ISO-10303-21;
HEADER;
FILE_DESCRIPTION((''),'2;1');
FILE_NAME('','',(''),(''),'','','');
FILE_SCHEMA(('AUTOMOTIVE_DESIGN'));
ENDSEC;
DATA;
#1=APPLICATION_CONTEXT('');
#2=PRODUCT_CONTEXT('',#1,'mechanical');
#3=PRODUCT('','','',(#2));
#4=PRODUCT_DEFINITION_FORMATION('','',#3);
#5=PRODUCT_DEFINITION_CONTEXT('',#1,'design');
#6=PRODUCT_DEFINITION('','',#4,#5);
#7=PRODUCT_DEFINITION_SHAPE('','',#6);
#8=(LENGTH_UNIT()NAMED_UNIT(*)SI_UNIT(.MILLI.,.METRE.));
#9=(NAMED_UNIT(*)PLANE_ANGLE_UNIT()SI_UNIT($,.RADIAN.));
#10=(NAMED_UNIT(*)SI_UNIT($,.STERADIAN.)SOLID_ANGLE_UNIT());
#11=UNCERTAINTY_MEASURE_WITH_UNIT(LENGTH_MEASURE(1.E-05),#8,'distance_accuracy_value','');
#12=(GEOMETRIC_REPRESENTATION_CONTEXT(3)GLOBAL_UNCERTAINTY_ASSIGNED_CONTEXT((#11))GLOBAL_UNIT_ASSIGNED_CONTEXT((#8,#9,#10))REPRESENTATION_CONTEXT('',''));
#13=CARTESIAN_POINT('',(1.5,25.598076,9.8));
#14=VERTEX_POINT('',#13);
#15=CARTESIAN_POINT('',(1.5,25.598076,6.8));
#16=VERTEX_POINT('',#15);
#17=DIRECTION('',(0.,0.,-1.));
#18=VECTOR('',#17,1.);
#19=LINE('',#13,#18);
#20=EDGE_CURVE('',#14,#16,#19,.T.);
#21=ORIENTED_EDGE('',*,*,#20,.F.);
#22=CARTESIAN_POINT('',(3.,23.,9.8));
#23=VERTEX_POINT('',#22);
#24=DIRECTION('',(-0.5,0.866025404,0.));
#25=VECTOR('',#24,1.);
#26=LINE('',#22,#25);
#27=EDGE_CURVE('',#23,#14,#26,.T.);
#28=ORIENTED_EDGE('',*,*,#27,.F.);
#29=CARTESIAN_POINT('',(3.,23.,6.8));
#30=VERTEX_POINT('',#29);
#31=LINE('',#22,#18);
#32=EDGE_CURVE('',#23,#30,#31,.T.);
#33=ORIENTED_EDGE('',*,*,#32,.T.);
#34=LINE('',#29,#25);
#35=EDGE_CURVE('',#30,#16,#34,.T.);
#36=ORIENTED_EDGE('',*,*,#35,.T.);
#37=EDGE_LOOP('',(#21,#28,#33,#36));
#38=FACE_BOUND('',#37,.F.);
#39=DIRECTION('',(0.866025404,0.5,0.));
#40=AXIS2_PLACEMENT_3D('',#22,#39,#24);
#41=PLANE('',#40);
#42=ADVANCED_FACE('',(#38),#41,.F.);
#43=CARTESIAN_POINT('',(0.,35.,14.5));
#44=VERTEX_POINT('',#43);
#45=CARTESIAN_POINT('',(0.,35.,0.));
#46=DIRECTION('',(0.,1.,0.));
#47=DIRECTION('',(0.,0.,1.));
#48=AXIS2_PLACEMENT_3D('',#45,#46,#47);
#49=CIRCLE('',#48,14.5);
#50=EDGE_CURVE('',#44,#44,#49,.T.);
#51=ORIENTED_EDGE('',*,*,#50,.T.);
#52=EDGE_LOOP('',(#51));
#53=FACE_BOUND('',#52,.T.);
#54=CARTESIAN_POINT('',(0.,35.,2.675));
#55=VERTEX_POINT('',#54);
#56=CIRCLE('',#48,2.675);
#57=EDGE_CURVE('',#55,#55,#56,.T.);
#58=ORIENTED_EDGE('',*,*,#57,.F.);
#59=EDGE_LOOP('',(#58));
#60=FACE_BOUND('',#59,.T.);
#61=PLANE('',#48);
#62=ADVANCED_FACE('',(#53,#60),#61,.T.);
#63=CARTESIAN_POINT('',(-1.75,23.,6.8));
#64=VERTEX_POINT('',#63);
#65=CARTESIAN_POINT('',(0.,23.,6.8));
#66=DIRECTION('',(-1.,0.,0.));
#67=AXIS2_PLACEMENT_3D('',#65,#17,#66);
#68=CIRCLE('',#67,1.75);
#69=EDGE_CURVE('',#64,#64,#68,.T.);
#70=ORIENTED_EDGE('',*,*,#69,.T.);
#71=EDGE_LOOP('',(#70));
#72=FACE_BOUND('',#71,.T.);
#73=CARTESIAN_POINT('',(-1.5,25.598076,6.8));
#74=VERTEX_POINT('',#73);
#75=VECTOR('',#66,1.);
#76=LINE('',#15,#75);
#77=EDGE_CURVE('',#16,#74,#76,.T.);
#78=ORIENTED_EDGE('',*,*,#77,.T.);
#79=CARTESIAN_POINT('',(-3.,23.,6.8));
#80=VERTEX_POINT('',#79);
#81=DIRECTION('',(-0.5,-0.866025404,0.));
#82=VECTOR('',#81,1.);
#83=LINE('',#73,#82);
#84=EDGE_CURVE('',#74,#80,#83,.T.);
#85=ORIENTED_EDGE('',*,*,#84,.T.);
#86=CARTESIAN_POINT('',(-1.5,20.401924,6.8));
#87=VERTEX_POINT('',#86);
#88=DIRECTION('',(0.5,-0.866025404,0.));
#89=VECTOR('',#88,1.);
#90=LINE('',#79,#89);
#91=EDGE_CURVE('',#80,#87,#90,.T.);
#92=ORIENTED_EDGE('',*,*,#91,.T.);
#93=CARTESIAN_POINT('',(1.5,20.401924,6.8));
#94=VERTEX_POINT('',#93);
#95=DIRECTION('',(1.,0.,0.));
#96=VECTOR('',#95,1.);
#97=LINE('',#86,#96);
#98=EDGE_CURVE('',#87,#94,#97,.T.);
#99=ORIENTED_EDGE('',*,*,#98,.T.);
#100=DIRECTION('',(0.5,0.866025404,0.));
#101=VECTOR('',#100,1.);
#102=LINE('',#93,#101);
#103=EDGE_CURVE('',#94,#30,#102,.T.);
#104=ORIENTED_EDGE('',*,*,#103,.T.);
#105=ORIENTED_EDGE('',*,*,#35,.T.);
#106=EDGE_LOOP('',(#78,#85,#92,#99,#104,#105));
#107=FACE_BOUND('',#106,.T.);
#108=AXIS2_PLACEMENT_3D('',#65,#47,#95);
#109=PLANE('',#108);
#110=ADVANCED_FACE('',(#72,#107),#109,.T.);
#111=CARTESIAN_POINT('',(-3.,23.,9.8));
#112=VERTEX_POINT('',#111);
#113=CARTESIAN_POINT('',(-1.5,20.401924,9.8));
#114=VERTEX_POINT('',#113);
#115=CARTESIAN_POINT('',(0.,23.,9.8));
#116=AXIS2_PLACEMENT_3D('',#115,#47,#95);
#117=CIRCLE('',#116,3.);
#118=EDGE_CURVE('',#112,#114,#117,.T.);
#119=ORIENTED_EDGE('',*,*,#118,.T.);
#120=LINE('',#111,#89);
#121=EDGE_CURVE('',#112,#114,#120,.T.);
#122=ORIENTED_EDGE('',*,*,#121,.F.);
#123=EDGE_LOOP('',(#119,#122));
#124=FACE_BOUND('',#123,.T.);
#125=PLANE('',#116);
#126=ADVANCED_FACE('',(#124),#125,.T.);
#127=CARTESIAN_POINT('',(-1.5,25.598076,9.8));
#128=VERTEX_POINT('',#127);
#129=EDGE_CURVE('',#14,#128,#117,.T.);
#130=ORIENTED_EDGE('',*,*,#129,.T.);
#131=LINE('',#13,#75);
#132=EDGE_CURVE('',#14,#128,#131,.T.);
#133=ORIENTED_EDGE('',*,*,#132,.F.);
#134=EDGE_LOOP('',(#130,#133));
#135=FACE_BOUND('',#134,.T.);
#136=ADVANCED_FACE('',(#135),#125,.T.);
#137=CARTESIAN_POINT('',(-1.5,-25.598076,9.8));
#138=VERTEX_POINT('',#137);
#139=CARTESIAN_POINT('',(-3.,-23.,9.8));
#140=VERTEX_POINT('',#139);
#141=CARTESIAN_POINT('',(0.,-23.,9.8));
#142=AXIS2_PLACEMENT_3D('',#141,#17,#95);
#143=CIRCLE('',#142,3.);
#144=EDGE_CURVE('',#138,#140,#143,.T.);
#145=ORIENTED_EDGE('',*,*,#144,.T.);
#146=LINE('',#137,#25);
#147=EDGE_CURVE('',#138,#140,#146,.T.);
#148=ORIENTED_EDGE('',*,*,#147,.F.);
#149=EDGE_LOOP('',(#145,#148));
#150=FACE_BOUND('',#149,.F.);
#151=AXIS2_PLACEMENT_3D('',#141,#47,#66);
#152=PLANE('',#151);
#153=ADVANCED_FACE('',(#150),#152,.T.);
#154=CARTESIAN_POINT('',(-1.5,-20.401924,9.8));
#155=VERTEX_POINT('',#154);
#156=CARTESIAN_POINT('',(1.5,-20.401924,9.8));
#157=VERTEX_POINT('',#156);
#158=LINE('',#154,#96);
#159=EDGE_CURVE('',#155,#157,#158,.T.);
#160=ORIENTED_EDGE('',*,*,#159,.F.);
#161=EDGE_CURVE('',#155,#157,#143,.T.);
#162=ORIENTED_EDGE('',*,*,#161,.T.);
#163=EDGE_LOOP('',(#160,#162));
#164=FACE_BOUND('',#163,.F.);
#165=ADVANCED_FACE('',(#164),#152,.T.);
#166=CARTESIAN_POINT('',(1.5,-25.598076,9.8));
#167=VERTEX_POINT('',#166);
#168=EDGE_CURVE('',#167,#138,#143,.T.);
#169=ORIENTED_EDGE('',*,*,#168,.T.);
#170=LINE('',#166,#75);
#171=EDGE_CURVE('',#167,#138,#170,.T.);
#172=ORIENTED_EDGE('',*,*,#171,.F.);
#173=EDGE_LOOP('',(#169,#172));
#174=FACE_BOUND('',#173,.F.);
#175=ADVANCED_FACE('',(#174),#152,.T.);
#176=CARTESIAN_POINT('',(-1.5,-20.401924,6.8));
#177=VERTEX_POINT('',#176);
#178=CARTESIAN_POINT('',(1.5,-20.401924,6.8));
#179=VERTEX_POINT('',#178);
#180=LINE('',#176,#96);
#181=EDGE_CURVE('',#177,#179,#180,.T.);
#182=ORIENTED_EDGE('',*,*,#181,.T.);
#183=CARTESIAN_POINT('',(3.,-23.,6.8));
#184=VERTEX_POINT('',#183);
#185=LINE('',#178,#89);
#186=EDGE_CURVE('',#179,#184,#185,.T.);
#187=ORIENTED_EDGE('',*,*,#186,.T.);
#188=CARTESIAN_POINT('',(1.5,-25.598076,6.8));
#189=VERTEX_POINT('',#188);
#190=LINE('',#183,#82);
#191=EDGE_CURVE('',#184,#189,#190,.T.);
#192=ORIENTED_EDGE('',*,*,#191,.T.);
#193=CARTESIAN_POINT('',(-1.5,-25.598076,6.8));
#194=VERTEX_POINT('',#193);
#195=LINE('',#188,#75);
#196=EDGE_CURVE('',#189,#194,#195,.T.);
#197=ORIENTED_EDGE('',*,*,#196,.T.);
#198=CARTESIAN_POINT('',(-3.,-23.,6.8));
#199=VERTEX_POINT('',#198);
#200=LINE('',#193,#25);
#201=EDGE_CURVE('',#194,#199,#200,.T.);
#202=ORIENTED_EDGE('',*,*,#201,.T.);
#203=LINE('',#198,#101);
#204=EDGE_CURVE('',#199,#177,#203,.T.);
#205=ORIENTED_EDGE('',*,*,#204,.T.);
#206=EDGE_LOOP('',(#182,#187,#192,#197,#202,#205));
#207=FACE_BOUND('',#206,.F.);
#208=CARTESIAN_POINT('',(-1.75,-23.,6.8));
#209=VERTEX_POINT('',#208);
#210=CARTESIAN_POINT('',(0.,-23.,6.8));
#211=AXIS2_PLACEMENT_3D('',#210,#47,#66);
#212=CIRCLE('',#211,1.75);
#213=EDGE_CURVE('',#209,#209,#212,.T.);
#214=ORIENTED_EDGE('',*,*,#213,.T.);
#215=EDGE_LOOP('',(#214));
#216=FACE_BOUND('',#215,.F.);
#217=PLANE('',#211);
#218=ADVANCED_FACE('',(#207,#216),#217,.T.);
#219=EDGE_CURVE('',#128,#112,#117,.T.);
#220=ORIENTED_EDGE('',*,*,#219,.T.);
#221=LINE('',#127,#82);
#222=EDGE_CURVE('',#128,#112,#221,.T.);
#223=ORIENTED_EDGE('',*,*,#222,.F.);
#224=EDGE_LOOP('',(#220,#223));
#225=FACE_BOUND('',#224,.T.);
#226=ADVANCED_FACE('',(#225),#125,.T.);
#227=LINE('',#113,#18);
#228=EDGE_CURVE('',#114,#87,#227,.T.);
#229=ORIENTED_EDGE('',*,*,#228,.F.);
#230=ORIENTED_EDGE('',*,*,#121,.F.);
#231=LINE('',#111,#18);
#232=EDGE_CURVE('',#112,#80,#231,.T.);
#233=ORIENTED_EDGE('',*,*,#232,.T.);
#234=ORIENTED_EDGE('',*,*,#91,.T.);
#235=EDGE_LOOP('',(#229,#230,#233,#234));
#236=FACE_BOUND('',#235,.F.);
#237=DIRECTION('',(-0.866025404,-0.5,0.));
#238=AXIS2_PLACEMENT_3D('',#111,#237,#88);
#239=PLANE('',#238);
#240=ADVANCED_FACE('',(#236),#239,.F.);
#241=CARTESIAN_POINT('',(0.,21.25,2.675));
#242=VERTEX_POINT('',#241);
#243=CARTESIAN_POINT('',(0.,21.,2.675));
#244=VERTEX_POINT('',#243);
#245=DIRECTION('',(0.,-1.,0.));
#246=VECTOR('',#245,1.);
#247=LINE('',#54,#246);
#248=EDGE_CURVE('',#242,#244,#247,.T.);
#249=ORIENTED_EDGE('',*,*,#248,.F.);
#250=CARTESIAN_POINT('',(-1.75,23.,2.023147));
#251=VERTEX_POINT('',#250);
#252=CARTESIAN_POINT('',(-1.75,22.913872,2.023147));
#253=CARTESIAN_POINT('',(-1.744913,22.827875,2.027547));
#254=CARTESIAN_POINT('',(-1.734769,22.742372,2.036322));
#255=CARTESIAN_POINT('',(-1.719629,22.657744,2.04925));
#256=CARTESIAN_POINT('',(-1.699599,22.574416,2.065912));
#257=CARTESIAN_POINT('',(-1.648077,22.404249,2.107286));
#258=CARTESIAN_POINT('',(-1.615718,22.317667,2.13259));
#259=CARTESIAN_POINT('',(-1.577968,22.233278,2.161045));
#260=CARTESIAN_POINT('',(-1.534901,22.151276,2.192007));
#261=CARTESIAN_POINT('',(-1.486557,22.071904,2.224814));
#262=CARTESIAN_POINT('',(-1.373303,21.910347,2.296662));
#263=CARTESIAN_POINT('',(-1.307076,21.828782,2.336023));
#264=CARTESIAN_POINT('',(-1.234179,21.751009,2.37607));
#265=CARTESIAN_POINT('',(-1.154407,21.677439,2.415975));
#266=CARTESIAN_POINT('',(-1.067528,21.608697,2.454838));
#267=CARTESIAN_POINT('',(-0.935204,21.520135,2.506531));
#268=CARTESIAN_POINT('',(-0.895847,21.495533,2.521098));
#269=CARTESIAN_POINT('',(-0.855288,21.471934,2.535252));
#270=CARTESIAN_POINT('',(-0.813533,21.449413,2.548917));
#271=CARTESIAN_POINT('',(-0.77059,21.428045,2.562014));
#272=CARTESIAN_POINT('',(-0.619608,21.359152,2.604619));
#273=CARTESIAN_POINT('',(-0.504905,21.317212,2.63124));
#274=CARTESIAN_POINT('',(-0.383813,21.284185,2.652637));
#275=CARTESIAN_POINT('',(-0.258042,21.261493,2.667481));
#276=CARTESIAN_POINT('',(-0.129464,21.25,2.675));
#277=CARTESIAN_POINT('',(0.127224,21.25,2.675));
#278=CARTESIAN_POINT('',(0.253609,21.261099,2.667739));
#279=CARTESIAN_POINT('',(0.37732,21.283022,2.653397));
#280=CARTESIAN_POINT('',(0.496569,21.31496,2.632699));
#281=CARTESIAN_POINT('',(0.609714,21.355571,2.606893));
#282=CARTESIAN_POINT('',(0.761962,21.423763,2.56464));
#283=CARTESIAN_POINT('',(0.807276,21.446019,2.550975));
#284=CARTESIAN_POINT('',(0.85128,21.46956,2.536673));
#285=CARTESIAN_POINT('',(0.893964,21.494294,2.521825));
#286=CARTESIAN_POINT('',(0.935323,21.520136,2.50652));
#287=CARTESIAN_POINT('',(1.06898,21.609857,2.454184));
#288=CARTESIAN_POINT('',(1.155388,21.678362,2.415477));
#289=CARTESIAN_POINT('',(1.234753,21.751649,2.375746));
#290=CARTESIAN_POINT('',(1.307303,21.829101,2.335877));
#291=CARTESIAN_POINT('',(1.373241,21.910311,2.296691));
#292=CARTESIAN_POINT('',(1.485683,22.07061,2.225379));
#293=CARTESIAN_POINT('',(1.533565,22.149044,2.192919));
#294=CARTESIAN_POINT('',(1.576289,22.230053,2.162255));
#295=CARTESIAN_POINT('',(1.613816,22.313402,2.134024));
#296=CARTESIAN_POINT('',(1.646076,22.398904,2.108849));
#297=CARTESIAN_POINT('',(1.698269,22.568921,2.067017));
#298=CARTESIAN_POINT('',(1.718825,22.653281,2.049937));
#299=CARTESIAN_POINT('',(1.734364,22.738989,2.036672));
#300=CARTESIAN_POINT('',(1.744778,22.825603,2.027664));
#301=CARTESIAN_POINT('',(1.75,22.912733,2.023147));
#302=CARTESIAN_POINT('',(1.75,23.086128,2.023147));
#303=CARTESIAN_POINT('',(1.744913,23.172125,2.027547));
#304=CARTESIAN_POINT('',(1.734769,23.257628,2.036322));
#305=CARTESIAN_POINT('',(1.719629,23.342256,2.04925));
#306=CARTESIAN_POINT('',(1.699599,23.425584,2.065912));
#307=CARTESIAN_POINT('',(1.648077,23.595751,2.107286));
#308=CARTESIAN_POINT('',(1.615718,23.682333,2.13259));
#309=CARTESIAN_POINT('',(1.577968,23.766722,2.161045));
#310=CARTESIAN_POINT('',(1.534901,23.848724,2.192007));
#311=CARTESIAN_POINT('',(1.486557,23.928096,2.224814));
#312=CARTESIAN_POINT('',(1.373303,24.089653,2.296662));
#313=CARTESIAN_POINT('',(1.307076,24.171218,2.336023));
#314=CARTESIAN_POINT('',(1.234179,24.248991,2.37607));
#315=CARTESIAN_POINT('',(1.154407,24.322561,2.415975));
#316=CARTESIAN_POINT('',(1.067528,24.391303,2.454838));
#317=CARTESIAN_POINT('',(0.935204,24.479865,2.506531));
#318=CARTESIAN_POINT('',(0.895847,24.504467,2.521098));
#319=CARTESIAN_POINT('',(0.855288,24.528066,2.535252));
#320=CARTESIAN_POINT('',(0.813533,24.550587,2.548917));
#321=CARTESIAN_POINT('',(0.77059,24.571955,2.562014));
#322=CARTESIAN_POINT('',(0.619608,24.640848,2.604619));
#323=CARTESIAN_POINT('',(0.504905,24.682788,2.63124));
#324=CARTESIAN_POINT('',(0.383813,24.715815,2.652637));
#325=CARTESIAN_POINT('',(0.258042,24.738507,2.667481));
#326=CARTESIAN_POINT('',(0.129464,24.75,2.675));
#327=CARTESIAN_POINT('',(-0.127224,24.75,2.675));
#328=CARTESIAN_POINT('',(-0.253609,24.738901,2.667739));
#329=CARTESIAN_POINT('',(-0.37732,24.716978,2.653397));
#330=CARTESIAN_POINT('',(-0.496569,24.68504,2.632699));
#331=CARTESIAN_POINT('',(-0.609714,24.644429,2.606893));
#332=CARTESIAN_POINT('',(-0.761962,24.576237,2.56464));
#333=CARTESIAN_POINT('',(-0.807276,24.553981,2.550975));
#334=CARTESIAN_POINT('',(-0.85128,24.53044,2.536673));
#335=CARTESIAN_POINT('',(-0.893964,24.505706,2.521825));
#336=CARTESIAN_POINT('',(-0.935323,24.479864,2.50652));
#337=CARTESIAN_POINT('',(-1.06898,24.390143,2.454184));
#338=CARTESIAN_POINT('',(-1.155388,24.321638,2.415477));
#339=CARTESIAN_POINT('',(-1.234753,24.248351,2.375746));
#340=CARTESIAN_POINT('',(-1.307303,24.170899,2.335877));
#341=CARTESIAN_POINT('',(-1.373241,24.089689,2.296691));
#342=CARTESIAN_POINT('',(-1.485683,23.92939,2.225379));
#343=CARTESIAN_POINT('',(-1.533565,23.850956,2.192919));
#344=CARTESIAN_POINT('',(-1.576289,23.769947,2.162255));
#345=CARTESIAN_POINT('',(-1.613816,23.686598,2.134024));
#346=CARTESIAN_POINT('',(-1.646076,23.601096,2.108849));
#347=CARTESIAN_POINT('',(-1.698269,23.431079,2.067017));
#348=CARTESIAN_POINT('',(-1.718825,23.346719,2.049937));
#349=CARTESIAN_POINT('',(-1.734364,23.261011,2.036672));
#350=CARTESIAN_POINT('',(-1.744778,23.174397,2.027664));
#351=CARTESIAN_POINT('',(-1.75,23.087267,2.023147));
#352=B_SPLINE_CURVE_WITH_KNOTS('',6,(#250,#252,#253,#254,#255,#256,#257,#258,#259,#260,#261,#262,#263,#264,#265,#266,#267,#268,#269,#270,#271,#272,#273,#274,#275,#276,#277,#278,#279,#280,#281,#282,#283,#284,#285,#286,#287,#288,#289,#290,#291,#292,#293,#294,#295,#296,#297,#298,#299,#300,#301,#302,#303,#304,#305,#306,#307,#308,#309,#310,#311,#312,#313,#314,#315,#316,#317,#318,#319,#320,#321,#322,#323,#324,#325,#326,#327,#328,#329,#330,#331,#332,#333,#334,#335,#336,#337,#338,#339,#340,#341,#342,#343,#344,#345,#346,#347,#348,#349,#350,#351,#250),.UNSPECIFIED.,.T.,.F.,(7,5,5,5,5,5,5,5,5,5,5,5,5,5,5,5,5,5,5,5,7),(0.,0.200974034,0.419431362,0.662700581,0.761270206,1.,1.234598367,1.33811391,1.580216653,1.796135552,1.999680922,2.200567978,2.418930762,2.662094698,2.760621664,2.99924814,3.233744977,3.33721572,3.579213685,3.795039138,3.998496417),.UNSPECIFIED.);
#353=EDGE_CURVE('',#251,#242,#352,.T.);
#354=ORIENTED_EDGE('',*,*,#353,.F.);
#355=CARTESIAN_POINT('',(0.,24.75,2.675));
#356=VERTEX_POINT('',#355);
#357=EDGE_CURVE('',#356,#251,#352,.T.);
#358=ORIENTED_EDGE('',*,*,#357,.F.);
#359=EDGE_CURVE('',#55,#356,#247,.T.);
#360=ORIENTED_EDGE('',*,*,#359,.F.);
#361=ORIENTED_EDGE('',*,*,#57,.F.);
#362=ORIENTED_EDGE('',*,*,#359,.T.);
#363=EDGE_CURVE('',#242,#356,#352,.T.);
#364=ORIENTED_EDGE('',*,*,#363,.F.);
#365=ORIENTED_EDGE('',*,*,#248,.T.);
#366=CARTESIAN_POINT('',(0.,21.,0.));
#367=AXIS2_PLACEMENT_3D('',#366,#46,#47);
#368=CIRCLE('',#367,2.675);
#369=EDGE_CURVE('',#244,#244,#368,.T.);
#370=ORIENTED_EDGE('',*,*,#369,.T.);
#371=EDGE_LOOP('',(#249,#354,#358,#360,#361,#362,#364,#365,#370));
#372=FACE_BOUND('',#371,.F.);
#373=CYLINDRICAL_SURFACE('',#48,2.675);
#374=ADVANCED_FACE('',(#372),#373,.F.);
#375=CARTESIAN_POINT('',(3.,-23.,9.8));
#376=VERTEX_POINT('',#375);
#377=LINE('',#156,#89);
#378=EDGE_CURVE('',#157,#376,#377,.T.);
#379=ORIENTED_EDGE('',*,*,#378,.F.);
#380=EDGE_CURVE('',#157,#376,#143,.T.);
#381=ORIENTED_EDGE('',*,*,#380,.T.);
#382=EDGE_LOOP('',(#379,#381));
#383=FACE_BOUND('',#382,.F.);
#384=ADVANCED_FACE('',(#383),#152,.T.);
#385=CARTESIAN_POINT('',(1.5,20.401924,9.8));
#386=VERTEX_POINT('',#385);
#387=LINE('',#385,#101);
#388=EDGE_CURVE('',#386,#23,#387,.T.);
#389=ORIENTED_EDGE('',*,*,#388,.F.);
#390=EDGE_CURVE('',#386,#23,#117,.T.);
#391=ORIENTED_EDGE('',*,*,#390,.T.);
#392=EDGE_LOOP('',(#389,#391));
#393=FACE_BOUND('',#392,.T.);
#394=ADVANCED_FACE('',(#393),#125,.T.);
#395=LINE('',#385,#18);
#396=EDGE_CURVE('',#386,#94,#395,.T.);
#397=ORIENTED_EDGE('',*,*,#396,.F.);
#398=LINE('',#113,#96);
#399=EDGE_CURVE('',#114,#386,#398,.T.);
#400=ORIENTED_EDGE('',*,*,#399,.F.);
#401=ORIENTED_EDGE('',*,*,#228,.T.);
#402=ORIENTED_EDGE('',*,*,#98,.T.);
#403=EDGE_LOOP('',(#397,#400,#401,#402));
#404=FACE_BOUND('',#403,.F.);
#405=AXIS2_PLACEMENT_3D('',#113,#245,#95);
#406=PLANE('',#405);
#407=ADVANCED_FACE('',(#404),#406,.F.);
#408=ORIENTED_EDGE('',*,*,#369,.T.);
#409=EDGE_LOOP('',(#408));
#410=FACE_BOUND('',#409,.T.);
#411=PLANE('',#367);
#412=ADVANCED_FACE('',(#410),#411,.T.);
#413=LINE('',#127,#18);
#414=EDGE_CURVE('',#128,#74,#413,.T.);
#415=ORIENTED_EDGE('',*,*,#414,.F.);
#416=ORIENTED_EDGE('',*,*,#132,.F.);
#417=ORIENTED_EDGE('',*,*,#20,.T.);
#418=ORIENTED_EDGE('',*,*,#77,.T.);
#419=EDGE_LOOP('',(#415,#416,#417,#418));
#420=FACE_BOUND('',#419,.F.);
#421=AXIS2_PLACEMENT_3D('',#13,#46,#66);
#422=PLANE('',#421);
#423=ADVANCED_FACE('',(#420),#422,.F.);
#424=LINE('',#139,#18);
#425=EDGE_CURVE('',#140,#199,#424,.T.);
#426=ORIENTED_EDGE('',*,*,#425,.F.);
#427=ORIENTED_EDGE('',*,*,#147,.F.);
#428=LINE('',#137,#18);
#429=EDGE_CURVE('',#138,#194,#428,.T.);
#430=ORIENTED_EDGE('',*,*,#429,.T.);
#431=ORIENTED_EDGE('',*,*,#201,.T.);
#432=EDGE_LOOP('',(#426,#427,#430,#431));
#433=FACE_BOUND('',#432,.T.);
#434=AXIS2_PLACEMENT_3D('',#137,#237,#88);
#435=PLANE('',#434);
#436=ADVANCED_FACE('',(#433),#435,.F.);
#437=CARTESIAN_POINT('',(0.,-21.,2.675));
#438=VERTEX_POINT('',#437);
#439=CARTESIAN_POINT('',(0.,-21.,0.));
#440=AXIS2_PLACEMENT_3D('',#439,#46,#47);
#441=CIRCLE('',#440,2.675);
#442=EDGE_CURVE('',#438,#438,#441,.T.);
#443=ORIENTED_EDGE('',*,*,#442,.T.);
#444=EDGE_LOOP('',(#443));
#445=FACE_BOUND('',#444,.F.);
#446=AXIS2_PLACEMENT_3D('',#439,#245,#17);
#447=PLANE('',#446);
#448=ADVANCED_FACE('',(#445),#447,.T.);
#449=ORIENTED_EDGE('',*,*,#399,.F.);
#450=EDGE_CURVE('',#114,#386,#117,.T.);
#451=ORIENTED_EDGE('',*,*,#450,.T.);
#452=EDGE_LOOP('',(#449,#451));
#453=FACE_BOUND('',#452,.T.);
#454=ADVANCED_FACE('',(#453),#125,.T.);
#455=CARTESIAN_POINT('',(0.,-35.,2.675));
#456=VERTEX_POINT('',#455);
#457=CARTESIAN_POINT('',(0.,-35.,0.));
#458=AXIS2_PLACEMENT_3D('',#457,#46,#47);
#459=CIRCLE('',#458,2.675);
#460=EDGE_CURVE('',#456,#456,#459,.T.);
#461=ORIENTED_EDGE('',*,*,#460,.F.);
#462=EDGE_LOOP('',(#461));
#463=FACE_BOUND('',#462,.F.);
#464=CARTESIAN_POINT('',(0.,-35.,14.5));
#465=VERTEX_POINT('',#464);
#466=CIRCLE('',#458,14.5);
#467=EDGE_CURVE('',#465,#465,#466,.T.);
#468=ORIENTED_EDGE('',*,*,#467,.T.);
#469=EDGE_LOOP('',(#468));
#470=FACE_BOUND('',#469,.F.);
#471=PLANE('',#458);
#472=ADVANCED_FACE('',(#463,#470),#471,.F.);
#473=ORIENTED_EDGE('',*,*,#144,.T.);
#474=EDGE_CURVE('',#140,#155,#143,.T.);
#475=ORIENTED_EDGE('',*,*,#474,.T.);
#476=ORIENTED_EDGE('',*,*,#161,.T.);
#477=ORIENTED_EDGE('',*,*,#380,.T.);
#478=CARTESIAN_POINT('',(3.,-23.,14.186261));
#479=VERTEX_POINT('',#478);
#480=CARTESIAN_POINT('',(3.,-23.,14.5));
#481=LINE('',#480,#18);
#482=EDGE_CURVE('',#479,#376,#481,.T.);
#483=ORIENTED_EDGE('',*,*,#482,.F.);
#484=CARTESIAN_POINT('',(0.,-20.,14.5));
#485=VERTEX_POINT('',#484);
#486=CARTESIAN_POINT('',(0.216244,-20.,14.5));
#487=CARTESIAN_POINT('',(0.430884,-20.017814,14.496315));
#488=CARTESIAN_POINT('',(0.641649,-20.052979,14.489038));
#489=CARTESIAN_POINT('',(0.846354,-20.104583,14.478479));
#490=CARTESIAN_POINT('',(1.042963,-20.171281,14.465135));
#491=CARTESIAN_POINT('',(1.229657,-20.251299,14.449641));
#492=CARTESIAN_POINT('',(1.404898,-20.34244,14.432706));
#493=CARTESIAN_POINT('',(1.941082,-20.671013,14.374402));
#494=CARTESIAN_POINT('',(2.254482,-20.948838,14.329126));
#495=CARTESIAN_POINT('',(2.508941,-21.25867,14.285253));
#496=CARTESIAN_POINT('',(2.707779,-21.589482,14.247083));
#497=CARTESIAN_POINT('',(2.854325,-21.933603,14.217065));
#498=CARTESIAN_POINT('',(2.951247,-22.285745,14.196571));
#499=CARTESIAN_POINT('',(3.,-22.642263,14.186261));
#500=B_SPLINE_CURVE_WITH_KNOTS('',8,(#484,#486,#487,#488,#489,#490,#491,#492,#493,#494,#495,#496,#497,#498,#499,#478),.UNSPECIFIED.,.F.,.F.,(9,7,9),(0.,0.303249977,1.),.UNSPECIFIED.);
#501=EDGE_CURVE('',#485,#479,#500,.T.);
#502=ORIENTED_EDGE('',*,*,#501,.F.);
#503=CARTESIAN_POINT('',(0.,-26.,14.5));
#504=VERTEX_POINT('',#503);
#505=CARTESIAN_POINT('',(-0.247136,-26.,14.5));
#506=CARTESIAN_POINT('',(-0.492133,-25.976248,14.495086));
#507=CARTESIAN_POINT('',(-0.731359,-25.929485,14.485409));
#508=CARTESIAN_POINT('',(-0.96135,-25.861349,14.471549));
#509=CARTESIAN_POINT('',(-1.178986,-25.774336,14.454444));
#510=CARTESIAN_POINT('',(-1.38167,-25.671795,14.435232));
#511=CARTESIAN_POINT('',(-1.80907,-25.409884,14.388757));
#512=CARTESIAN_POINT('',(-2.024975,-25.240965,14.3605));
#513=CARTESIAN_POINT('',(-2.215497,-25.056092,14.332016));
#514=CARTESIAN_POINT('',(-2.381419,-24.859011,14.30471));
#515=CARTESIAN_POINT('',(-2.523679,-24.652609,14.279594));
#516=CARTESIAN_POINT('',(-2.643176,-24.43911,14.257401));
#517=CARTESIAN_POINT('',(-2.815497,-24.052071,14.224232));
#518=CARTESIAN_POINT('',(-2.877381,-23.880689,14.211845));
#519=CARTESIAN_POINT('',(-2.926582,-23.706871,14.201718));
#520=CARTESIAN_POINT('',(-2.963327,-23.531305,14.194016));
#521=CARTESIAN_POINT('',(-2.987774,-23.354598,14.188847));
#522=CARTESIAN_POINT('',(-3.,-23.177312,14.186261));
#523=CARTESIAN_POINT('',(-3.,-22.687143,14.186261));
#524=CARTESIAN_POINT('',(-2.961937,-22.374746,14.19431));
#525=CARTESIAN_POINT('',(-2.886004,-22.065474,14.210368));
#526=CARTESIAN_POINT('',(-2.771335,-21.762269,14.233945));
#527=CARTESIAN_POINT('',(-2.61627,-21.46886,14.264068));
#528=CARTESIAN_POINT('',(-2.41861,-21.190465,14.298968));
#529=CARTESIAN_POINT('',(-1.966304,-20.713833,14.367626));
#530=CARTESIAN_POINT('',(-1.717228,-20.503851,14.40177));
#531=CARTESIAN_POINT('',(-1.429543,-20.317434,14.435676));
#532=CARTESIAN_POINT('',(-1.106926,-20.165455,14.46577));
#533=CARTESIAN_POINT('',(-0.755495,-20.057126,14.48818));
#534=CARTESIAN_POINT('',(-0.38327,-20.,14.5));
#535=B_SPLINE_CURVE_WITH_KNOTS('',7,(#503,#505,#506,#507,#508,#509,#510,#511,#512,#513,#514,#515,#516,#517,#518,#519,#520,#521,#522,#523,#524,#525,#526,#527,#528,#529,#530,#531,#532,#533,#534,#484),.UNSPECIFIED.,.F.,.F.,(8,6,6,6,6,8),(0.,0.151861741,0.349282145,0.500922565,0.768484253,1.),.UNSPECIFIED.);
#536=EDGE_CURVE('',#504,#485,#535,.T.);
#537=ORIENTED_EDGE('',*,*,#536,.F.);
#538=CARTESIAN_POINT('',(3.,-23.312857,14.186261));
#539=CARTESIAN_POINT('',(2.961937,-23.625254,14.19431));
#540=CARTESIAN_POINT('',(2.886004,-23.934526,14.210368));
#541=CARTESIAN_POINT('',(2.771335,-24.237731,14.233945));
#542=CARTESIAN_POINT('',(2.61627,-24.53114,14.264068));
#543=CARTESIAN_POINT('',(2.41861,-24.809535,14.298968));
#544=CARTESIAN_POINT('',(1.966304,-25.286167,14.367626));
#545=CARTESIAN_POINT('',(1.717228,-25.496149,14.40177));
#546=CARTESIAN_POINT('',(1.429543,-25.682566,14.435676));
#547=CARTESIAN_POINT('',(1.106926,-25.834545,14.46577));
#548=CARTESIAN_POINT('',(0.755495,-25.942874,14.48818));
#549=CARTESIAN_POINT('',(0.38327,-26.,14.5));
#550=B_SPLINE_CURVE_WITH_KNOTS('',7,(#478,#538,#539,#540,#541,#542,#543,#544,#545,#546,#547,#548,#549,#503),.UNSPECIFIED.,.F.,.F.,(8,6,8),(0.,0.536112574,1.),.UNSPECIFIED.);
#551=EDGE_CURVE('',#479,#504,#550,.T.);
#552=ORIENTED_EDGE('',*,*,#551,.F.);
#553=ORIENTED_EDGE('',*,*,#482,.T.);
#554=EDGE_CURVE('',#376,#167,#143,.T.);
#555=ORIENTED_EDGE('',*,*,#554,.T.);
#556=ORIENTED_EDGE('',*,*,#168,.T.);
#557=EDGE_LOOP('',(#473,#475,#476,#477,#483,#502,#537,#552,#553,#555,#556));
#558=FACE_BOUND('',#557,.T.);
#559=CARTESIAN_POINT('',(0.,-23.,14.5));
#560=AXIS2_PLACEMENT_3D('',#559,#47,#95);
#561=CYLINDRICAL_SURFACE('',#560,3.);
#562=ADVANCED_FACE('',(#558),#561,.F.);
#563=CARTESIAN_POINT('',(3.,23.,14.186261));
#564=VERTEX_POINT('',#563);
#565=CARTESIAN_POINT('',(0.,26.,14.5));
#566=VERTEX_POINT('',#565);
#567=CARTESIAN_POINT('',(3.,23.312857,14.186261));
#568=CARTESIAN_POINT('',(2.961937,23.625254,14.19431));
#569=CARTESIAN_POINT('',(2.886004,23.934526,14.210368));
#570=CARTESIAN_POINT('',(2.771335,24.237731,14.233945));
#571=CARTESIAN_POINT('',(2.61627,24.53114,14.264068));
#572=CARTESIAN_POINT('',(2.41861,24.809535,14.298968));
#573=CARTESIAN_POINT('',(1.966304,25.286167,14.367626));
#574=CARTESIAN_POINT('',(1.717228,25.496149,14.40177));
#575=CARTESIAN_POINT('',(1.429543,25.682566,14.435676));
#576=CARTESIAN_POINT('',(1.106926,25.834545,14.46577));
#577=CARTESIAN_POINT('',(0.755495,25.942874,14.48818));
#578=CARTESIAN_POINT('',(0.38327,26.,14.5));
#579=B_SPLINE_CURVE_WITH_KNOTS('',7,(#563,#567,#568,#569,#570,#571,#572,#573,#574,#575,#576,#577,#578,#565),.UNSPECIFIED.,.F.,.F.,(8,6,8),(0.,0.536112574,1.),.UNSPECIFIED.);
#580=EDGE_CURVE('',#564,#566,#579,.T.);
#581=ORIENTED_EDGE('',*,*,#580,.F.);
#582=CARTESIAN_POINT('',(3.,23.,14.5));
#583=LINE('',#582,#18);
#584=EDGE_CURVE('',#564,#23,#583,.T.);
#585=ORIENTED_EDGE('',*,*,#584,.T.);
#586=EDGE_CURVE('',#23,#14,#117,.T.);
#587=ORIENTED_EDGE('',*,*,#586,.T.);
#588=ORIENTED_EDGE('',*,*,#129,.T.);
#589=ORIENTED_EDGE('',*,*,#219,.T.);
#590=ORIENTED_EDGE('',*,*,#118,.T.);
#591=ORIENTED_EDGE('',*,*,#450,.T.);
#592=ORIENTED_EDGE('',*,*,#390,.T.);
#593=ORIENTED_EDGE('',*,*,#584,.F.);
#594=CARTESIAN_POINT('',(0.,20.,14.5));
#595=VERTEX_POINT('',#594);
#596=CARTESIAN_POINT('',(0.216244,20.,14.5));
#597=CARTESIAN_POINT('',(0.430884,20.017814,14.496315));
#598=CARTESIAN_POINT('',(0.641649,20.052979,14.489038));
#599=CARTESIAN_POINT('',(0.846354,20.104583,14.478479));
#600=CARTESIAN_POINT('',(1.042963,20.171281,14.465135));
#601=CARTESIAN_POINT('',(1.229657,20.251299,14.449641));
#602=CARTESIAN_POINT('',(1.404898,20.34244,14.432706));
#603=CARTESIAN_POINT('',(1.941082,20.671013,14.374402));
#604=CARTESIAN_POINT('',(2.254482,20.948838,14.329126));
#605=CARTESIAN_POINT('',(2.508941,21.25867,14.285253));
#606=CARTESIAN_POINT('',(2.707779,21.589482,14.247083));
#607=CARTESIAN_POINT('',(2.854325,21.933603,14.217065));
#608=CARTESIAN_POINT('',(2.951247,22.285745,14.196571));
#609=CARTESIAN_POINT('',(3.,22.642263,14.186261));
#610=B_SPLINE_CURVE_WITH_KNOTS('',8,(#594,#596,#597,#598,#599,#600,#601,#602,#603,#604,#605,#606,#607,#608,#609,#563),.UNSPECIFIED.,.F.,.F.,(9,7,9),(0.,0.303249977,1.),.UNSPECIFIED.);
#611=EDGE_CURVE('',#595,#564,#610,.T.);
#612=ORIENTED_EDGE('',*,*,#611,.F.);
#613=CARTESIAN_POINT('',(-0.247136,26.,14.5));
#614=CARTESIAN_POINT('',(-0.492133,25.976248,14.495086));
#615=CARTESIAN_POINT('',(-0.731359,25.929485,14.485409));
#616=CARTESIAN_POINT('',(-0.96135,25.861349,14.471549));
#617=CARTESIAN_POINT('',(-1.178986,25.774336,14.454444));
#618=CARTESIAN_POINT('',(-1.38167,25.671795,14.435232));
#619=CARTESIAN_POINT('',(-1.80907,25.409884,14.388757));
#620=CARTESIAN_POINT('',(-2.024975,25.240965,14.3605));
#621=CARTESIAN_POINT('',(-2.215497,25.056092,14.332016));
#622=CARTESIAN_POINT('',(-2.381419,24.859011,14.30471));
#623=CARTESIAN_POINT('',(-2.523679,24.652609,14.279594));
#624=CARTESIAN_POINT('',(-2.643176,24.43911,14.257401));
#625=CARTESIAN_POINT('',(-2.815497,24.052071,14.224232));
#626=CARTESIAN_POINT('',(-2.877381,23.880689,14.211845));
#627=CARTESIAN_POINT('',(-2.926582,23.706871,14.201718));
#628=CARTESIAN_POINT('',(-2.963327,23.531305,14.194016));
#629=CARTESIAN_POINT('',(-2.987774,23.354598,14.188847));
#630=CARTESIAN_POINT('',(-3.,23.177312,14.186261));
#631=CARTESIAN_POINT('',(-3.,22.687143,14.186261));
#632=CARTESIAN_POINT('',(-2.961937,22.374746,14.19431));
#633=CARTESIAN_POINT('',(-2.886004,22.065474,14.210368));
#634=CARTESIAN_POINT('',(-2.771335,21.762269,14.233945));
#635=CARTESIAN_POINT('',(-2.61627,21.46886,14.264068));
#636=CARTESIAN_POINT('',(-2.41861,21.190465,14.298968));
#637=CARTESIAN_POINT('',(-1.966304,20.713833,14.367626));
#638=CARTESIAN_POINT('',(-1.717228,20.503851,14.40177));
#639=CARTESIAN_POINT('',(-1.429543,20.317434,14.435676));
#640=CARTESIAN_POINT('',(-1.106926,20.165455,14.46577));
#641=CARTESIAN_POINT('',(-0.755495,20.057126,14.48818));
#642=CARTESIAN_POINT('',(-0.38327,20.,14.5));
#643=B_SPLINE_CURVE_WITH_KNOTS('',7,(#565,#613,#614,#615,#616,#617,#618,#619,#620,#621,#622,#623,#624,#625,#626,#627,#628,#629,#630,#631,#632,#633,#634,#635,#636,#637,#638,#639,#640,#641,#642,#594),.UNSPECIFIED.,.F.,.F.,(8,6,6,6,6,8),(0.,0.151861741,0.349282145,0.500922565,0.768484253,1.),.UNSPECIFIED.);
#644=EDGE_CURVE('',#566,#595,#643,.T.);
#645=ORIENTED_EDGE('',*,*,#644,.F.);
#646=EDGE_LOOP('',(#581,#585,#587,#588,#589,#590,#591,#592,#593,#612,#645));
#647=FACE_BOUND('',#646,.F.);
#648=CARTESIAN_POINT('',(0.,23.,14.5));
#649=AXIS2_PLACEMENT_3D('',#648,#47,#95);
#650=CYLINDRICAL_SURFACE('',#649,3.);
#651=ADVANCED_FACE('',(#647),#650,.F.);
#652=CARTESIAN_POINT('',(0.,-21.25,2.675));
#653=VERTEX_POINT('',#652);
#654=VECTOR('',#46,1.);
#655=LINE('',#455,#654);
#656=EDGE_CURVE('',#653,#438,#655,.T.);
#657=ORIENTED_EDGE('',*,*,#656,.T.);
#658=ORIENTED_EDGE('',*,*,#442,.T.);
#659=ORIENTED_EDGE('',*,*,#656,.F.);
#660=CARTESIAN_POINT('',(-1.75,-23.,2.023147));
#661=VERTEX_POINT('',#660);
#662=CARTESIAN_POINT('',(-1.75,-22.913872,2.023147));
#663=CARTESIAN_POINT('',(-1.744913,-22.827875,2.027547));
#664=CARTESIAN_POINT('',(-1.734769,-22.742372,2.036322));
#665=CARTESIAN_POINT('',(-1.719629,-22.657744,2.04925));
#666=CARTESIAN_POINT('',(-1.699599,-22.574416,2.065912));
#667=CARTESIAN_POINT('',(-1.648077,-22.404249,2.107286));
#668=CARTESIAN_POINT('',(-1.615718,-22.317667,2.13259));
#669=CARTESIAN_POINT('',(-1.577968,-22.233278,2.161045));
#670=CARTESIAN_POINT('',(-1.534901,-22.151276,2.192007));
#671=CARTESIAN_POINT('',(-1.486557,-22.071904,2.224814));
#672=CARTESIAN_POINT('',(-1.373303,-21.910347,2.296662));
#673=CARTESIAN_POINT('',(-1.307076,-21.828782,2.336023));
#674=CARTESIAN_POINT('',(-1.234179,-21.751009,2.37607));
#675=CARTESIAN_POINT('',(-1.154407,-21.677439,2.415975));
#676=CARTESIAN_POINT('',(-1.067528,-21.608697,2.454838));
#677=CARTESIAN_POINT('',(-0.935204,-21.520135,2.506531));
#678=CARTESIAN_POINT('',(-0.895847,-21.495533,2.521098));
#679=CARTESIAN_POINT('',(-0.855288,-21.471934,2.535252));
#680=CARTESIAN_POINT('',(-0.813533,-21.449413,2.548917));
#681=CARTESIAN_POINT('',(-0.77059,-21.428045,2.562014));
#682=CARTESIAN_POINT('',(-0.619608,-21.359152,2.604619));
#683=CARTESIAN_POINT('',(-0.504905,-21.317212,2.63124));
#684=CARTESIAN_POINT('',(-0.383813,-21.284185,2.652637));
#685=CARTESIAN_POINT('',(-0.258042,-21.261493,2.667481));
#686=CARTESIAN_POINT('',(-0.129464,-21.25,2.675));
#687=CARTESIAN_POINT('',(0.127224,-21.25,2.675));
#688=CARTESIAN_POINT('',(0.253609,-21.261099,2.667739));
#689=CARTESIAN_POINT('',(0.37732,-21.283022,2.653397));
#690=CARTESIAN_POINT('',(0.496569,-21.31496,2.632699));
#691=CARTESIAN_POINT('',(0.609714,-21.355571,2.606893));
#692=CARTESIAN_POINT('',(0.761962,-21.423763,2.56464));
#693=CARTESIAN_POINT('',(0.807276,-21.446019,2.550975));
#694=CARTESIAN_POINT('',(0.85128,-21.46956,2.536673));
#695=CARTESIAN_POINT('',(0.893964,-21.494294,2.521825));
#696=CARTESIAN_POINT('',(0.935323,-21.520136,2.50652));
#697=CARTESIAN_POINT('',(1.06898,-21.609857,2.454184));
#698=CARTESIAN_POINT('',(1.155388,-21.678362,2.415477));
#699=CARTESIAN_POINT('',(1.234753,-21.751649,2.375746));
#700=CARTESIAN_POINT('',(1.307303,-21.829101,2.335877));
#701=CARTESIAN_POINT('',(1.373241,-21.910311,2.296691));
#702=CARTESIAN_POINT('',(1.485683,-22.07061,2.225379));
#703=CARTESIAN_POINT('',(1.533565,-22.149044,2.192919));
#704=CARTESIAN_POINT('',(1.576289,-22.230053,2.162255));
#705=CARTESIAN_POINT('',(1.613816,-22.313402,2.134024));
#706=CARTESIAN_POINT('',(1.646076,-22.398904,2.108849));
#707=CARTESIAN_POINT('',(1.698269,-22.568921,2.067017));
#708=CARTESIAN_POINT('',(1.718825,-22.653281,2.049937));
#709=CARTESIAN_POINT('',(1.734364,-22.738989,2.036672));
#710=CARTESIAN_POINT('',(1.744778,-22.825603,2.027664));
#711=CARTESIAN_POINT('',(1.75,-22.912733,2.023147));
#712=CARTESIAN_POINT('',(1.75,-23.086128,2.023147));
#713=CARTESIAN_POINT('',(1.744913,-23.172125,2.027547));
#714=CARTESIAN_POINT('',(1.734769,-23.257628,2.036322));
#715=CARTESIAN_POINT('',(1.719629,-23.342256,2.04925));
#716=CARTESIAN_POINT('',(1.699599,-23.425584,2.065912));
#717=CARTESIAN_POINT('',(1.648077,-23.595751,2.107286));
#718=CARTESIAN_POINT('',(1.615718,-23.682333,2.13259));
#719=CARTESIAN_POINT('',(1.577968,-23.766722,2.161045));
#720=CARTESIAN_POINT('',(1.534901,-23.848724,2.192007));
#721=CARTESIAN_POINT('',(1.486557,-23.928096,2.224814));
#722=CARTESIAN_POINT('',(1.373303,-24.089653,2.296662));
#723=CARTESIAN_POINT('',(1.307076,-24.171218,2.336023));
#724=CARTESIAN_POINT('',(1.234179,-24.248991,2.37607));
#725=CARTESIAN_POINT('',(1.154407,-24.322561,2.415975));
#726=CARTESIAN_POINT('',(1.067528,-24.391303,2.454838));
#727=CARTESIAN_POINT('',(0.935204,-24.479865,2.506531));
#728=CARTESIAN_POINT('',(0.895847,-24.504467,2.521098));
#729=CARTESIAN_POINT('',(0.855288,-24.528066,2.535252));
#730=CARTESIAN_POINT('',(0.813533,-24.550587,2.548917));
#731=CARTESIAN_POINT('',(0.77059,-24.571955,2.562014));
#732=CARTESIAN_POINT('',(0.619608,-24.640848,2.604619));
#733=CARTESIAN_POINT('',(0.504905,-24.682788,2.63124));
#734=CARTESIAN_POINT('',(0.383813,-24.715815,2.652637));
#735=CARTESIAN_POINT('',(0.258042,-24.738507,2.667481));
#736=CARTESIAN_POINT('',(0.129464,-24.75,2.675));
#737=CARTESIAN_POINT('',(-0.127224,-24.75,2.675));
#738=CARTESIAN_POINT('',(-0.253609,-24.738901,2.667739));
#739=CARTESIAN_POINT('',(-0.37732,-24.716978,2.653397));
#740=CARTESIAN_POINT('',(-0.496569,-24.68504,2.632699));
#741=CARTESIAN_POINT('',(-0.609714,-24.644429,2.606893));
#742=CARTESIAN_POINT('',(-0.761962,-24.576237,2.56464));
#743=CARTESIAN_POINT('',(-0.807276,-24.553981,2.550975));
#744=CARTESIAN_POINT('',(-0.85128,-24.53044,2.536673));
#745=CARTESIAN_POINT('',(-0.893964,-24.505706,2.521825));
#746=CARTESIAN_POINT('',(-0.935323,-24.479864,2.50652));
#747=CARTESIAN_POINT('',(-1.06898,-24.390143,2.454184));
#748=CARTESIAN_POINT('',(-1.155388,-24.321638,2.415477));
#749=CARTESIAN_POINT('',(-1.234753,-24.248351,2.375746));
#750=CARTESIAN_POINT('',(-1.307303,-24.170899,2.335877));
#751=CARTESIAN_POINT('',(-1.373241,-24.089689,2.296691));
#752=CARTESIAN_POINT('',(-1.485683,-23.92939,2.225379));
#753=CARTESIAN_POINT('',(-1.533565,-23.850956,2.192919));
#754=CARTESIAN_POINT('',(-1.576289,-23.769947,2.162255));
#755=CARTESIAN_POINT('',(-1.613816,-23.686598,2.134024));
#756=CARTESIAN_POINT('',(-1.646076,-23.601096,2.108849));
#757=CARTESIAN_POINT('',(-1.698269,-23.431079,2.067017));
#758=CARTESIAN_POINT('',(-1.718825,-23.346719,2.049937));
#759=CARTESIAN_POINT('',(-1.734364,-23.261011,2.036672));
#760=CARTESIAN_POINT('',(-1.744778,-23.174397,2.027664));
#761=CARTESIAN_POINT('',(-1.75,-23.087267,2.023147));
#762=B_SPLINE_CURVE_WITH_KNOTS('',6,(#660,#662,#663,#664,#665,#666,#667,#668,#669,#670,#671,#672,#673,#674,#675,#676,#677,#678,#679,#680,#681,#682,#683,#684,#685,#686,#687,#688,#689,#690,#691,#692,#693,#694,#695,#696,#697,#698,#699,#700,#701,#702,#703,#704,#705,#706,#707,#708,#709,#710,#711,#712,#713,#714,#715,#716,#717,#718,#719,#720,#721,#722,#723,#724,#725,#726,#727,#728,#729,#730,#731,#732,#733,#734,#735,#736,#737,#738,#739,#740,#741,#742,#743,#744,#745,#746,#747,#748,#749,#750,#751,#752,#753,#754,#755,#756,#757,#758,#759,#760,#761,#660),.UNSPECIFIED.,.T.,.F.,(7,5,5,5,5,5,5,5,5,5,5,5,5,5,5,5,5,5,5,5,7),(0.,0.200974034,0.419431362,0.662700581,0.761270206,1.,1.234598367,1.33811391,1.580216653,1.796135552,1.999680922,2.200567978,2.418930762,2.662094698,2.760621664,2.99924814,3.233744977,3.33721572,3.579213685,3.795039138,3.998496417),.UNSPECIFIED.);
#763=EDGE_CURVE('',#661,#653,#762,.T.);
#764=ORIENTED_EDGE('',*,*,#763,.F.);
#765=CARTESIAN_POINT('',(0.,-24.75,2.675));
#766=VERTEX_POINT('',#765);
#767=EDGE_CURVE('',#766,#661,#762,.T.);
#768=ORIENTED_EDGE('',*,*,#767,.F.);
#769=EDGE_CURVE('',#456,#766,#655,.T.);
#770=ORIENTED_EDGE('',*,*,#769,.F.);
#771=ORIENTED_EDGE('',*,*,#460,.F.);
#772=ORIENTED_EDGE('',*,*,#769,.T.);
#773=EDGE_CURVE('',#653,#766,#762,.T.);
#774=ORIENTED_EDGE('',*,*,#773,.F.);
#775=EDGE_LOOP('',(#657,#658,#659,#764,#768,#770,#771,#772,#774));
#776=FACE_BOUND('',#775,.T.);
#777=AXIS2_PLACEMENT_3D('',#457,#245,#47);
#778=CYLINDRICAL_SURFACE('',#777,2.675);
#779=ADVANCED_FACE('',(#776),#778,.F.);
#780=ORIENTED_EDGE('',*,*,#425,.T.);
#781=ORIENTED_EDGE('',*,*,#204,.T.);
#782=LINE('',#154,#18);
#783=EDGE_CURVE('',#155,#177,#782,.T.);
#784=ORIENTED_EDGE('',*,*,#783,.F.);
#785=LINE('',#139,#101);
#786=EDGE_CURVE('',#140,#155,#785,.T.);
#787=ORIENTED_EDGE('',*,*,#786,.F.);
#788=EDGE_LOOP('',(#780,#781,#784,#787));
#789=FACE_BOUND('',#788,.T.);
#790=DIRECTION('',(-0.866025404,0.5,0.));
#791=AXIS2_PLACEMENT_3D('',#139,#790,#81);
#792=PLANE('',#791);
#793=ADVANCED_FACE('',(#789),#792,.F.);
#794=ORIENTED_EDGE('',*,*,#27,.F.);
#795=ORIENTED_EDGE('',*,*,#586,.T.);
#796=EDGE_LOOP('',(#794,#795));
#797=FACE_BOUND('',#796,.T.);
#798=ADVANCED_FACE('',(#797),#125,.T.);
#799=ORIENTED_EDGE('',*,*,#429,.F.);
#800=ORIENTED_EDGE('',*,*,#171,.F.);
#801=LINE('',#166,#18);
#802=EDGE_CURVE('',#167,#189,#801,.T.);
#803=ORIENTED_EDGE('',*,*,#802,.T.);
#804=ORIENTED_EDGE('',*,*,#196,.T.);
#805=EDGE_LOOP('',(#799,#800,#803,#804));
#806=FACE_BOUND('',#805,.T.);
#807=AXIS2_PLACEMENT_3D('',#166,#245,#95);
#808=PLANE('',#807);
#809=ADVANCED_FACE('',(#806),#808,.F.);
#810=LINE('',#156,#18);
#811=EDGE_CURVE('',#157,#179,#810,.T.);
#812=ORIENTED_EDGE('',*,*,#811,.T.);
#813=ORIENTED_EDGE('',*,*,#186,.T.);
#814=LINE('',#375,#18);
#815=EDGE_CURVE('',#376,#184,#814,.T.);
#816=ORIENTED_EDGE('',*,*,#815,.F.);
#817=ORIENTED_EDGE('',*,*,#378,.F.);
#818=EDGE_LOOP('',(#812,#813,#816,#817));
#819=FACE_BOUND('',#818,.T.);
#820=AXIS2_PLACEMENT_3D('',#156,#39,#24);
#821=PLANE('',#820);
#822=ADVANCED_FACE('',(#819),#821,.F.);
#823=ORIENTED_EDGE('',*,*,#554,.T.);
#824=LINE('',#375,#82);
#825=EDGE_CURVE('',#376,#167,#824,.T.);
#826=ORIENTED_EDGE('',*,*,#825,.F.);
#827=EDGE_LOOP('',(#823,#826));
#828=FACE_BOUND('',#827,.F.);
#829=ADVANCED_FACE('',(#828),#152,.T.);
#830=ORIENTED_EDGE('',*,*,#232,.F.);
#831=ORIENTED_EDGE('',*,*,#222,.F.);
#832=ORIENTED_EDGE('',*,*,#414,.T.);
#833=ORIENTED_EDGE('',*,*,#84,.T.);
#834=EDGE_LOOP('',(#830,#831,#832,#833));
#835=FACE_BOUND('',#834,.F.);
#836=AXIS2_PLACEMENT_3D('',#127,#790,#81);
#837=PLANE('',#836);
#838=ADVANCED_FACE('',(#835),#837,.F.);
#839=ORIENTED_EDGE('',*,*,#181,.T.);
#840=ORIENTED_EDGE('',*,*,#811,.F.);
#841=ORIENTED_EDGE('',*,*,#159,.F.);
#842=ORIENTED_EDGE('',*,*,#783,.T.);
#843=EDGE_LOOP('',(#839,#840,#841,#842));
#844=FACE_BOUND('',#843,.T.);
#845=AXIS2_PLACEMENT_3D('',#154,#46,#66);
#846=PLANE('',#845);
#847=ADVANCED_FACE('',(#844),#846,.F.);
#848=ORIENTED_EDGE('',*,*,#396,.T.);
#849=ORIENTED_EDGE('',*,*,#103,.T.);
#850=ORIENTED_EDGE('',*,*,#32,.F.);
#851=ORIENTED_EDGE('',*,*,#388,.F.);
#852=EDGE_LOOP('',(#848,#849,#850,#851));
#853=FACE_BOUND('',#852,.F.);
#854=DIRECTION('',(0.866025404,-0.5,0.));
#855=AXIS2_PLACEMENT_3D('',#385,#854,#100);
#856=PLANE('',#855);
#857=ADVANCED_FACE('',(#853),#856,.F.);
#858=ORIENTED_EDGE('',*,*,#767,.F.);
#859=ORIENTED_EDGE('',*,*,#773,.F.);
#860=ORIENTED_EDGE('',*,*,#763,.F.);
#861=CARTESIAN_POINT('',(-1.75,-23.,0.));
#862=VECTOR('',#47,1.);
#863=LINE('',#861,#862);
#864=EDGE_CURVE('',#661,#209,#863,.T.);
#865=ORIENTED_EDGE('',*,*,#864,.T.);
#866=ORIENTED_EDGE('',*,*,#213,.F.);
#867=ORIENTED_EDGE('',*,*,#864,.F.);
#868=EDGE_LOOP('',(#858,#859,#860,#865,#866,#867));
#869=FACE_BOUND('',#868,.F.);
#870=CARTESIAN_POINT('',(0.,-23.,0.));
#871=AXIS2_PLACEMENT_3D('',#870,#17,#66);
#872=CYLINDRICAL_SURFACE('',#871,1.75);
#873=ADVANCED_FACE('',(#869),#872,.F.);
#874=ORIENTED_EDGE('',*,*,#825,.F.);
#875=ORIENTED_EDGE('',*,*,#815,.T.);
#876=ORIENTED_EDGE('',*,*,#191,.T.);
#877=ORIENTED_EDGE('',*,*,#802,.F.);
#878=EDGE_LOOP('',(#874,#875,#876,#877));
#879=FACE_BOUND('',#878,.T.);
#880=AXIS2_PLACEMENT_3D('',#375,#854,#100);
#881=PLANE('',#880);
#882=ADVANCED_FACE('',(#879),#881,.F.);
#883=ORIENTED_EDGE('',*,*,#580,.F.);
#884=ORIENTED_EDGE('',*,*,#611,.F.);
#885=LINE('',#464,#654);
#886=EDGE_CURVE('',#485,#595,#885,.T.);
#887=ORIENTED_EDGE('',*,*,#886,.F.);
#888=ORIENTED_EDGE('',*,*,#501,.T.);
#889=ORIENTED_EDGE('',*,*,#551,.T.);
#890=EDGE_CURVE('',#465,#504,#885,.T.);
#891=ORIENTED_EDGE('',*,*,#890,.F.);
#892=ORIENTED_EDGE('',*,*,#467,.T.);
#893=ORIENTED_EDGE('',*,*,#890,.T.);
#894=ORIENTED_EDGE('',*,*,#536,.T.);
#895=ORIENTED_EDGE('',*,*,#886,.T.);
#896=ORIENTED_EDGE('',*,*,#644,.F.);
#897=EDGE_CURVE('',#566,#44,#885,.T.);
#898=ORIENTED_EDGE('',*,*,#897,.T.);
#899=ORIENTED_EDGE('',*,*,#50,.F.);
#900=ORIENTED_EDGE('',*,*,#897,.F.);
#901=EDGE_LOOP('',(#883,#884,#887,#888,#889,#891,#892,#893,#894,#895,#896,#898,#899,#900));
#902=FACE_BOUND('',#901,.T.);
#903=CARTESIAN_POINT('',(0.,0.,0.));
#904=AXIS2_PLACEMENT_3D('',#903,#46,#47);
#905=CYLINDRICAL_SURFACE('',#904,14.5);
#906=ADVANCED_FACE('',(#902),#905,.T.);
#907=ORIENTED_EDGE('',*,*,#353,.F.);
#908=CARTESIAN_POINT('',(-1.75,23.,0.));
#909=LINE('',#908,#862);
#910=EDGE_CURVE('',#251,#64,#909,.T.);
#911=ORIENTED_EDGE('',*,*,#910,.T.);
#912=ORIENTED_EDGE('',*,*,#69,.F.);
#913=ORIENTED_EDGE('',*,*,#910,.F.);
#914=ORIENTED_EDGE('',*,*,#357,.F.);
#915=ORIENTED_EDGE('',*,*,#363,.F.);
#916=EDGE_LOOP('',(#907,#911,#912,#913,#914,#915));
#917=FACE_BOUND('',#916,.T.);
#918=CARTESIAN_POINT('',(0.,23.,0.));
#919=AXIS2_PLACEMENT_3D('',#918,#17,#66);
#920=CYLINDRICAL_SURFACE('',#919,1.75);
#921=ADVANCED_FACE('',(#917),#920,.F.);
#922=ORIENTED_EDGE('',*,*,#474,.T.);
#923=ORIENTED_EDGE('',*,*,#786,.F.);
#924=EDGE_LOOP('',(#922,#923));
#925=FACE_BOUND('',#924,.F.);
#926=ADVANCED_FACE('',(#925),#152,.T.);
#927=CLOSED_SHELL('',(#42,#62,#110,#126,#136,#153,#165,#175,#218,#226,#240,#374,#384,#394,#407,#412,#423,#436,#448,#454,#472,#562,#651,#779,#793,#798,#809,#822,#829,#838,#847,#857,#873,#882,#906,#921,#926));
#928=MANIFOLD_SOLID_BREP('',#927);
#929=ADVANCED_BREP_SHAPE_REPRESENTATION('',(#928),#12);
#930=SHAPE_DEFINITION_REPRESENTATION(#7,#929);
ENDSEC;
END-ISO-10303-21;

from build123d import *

# Parameters (mm, degrees)
CROQUIS2_R              = 14.5
SALIENTE_EXTRUIR1_DEPTH = 35
CROQUIS3_R              = 2.675
CORTAR_EXTRUIR1_DEPTH   = 14
CROQUIS7_R              = 3
CORTAR_EXTRUIR6_DEPTH   = 4.7
CORTAR_EXTRUIR8_START   = 9.8
CORTAR_EXTRUIR8_DEPTH   = 3
CORTAR_EXTRUIR2_REACH   = 42.565
CROQUIS4_R              = 1.75


with BuildPart() as part:
    # Croquis2 → Saliente-Extruir1 (new, symmetric)
    with BuildSketch(Plane(origin=(0, 0, 0), x_dir=(1, 0, 0), z_dir=(0, 1, 0))):
        with Locations(Location((0, 0, 0), (0, 0, 270))):
            Circle(CROQUIS2_R)
    extrude(amount=SALIENTE_EXTRUIR1_DEPTH, both=True)

    # Croquis3 → Cortar-Extruir1 (cut)
    with BuildSketch(Plane(origin=(0, 35, 0), x_dir=(1, 0, 0), z_dir=(0, 1, 0))):
        with Locations(Location((0, 0, 0), (0, 0, 270))):
            Circle(CROQUIS3_R)
    cortar_extruir1 = extrude(amount=-CORTAR_EXTRUIR1_DEPTH, mode=Mode.SUBTRACT)

    # Croquis7 → Cortar-Extruir6 (cut)
    with BuildSketch(Plane.XY.offset(14.5)):
        with Locations((0, 23)):
            Circle(CROQUIS7_R)
    cortar_extruir6 = extrude(amount=-CORTAR_EXTRUIR6_DEPTH, mode=Mode.SUBTRACT)

    # Croquis5 → Cortar-Extruir8 (cut)
    with BuildSketch(Plane.XY.offset(CORTAR_EXTRUIR8_START)):
        Polygon((-1.5, 20.401923789), (1.5, 20.401923789), (3, 23), (1.5, 25.598076211), (-1.5, 25.598076211), (-3, 23), align=None)
    cortar_extruir8 = extrude(amount=-CORTAR_EXTRUIR8_DEPTH, mode=Mode.SUBTRACT)

    # Croquis4 → Cortar-Extruir2 (cut, up to next)
    with BuildSketch(Plane.XY, mode=Mode.PRIVATE) as cortar_extruir2_sk1:
        with Locations(Location((0, 23, 0), (0, 0, 180))):
            Circle(CROQUIS4_R)
    cortar_extruir2_tool1 = extrude(cortar_extruir2_sk1.sketch, amount=CORTAR_EXTRUIR2_REACH, mode=Mode.PRIVATE) & part.part
    cortar_extruir2 = cortar_extruir2_tool1.solids().sort_by_distance((0, 23, 0))[0]
    add(cortar_extruir2, mode=Mode.SUBTRACT)

    # Simetría2: Cortar-Extruir1, Cortar-Extruir6, Cortar-Extruir8, Cortar-Extruir2 across plane
    add(cortar_extruir1.mirror(Plane.ZX), mode=Mode.SUBTRACT)
    add(cortar_extruir6.mirror(Plane.ZX), mode=Mode.SUBTRACT)
    add(cortar_extruir8.mirror(Plane.ZX), mode=Mode.SUBTRACT)
    add(cortar_extruir2.mirror(Plane.ZX), mode=Mode.SUBTRACT)


solid = part.part
